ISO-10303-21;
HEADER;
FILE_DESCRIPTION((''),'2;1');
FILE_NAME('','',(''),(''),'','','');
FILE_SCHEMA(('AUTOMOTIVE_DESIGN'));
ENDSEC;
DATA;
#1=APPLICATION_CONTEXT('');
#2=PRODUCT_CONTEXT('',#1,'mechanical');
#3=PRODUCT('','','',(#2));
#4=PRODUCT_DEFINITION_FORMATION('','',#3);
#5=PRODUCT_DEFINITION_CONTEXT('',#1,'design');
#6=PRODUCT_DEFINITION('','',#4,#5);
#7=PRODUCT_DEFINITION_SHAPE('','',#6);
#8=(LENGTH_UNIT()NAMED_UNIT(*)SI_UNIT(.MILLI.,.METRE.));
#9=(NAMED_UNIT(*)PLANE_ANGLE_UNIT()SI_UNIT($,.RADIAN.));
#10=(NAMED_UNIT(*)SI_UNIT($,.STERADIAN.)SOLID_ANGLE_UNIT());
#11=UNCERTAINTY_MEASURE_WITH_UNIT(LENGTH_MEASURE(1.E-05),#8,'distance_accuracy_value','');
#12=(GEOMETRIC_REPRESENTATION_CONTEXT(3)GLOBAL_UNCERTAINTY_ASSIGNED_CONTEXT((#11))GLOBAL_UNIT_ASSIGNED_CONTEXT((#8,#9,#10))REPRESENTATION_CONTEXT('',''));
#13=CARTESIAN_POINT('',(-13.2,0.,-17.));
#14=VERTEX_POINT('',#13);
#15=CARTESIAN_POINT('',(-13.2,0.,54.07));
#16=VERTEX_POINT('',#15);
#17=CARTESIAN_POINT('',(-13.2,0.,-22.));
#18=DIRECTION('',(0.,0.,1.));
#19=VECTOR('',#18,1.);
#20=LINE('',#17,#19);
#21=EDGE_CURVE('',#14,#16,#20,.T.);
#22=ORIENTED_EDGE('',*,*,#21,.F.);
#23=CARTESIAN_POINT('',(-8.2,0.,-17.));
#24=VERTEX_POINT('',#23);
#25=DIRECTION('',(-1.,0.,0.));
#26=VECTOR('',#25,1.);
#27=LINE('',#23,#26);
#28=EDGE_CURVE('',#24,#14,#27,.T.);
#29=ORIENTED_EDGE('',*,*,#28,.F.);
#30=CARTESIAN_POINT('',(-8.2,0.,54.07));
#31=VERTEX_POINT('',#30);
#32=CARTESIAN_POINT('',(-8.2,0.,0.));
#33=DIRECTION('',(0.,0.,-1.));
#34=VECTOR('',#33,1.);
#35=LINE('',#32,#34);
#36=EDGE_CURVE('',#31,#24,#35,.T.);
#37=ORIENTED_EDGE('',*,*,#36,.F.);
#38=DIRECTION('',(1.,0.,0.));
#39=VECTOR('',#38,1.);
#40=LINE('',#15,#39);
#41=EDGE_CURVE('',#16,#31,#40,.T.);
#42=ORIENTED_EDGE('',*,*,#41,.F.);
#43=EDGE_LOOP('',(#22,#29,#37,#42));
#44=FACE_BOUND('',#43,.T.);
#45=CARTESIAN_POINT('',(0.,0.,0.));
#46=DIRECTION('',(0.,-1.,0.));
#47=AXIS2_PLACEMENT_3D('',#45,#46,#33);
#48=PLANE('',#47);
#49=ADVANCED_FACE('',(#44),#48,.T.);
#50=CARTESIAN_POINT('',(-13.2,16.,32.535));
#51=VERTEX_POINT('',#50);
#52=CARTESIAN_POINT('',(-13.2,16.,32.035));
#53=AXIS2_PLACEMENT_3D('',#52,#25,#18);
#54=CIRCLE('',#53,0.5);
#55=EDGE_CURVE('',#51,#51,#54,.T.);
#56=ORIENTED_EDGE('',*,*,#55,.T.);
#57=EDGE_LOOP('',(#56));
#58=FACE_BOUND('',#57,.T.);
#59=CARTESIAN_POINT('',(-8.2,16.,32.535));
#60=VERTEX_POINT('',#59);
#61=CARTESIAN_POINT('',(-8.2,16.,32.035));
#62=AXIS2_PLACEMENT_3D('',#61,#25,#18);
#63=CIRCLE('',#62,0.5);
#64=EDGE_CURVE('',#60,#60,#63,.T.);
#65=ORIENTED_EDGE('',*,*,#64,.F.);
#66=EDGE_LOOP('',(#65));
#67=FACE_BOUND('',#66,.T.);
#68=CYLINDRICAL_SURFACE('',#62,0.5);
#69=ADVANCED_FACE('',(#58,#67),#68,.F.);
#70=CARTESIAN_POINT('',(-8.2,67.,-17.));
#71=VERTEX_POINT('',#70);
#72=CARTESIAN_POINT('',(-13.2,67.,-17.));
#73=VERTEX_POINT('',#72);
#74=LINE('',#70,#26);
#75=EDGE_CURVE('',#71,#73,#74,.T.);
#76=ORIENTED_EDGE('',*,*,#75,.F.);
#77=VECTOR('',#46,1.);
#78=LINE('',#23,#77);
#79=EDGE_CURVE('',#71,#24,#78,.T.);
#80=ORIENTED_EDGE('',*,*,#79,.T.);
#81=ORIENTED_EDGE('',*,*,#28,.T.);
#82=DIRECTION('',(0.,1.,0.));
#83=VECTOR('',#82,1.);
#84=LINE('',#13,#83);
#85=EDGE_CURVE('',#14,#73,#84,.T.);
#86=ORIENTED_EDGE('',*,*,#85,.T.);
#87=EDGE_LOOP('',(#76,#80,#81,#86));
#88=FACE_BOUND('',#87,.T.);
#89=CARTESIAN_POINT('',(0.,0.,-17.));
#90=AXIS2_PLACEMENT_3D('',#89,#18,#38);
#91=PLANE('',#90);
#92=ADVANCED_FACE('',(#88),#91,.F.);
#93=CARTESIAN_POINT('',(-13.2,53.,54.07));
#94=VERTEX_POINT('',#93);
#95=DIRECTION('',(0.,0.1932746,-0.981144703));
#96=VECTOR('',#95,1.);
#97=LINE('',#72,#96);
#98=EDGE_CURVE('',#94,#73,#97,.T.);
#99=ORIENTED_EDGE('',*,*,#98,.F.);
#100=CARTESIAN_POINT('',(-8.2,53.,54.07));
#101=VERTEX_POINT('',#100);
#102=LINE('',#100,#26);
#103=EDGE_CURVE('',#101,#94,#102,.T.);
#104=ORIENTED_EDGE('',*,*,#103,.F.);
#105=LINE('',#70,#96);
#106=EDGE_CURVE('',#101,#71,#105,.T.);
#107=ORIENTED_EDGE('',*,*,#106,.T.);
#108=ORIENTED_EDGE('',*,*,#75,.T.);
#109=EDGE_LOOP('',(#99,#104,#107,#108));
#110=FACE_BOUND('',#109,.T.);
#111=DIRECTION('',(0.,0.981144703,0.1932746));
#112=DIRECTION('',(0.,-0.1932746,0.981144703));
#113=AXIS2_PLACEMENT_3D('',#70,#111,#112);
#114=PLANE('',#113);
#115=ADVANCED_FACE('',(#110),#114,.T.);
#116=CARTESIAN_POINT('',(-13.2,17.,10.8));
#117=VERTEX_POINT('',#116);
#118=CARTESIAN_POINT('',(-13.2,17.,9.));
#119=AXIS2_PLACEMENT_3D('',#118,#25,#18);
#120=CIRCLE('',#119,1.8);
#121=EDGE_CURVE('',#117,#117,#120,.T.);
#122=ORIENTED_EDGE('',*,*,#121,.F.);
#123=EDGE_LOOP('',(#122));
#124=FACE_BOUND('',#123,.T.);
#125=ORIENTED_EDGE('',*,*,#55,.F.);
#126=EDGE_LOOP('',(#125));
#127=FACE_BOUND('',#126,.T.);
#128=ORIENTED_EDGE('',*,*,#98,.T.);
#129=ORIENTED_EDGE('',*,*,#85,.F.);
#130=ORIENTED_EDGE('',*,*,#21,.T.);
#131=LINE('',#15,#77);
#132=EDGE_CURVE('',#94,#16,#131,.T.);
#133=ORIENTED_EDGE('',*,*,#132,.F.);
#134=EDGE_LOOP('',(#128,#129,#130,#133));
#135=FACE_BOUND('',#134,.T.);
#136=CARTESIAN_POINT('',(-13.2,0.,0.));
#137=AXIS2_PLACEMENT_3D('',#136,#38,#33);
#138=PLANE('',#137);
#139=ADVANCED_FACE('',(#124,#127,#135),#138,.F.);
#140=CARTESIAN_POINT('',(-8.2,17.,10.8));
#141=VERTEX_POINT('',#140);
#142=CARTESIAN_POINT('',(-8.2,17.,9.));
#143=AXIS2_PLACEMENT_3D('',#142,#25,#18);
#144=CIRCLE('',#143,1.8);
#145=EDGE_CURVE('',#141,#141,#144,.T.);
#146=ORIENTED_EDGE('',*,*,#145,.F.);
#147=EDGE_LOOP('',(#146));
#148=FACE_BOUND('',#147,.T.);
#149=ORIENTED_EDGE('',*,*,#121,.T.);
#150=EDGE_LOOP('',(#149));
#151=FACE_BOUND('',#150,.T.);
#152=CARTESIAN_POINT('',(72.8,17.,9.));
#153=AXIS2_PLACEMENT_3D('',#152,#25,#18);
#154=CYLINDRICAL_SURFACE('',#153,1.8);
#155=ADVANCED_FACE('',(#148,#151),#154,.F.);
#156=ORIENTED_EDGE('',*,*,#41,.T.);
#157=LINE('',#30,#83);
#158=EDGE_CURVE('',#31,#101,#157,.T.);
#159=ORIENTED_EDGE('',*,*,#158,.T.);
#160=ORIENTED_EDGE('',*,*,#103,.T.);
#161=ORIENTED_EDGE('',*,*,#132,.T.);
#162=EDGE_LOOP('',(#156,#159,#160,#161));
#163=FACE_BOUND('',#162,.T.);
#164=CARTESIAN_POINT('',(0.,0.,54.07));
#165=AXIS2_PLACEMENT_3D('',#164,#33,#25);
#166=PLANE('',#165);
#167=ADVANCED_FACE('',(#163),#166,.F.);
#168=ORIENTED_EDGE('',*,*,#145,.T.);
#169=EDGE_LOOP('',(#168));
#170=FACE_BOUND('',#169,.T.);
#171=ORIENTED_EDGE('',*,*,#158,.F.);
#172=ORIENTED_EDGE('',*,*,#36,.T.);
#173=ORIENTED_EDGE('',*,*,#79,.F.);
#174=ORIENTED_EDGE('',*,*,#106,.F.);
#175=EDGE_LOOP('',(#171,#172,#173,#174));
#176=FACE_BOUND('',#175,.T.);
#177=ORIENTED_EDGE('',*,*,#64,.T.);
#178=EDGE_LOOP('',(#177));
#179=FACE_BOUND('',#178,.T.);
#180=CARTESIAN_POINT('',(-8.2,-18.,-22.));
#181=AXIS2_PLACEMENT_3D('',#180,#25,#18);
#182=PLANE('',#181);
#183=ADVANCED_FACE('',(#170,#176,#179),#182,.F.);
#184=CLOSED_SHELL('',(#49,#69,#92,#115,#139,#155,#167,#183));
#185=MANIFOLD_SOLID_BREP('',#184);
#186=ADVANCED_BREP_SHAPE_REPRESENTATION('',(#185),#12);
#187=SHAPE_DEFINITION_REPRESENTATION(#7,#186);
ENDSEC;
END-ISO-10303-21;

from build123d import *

# Parameters (mm, degrees)
SKETCH1_W                = 50
SKETCH1_H                = 9.1
BOSS_EXTRUDE1_DEPTH      = 2
SKETCH2_W                = 25
SKETCH2_H                = 6.6
CUT_EXTRUDE1_DEPTH       = 2
SKETCH3_R                = 1.8
CUT_EXTRUDE2_DEPTH       = 2
SKETCH4_W                = 66.4
SKETCH4_H                = 130
BOSS_EXTRUDE2_DEPTH      = 2
SKETCH5_W                = 66.4
SKETCH5_H                = 2
BOSS_EXTRUDE3_DEPTH      = 2.5
SKETCH6_W                = 8.6
SKETCH6_H                = 62.5
BOSS_EXTRUDE4_DEPTH      = 2
SKETCH7_R                = 1.8
SKETCH7_W                = 3
SKETCH7_H                = 5
CUT_EXTRUDE3_DEPTH       = 2
SKETCH8_W                = 25
SKETCH8_H                = 45
CUT_EXTRUDE4_DEPTH       = 20
SKETCH9_W                = 25
SKETCH9_H                = 10
BOSS_EXTRUDE5_DEPTH      = 2
SKETCH10_W               = 34.7
SKETCH10_H               = 27.07
BOSS_EXTRUDE6_DEPTH      = 2
SKETCH11_R               = 1.8
CUT_EXTRUDE5_DEPTH       = 2
SKETCH12_R               = 1.8
CUT_EXTRUDE6_DEPTH       = 2
SKETCH13_W               = 2
SKETCH13_H               = 2
BOSS_EXTRUDE7_DEPTH      = 44
SKETCH14_W               = 2
SKETCH14_H               = 2
BOSS_EXTRUDE8_DEPTH      = 46
SKETCH16_W               = 42
SKETCH16_H               = 43
BOSS_EXTRUDE10_DEPTH     = 2
SKETCH18_R               = 1.8
CUT_EXTRUDE7_DEPTH       = 2
BOSS_EXTRUDE12_DEPTH     = 2
SKETCH21_W               = 2
SKETCH21_H               = 2
BOSS_EXTRUDE13_DEPTH     = 10
SKETCH25_W               = 3
SKETCH25_H               = 5
CUT_EXTRUDE8_DEPTH       = 10
SKETCH26_W               = 6.2
SKETCH26_H               = 13
SKETCH26_W_2             = 21
SKETCH26_H_2             = 6.6
BOSS_EXTRUDE14_DEPTH     = 2
SKETCH27_W               = 2
SKETCH27_H               = 27
SKETCH27_H_2             = 24.93
BOSS_EXTRUDE15_DEPTH     = 2
SKETCH29_W               = 10
SKETCH29_H               = 10
BOSS_EXTRUDE19_DEPTH     = 2
SKETCH41_R               = 1.8
CUT_EXTRUDE15_DEPTH      = 2
BOSS_EXTRUDE26_DEPTH     = 2
SKETCH43_W               = 70.4
SKETCH43_H               = 2
BOSS_EXTRUDE27_DEPTH     = 11
SKETCH44_W               = 10
SKETCH44_H               = 5
BOSS_EXTRUDE28_DEPTH     = 2
SKETCH45_R               = 1.8
BOSS_EXTRUDE29_DEPTH     = 2
SKETCH46_R               = 1.8
CUT_EXTRUDE16_DEPTH      = 2
SKETCH47_W               = 10
SKETCH47_H               = 1
BOSS_EXTRUDE30_DEPTH     = 2
SKETCH48_W               = 32.7
SKETCH48_H               = 31.07
SKETCH48_W_2             = 101.75
SKETCH48_H_2             = 120.487369876
CUT_EXTRUDE17_DEPTH      = 20
SKETCH50_W               = 66.4
SKETCH50_H               = 81.07
CUT_EXTRUDE19_DEPTH      = 20
SKETCH51_W               = 70.4
SKETCH51_H               = 85.07
SKETCH51_W_2             = 66.4
SKETCH51_H_2             = 81.07
BOSS_EXTRUDE31_DEPTH     = 20
SKETCH52_W               = 10
SKETCH52_H               = 1
BOSS_EXTRUDE32_DEPTH     = 2
SKETCH53_W               = 10
SKETCH53_H               = 4
CUT_EXTRUDE20_DEPTH      = 2
BOSS_EXTRUDE33_START     = 1
SKETCH54_W               = 10
SKETCH54_H               = 12
SKETCH54_R               = 1.8
BOSS_EXTRUDE33_DEPTH     = 1
CUT_EXTRUDE23_DEPTH      = 96
CUT_EXTRUDE23_DEPTH_BACK = 16
SKETCH59_R               = 1.8
SKETCH62_W               = 66.985033768
SKETCH62_H               = 11.249394984
BOSS_EXTRUDE38_DEPTH     = 1
SKETCH65_R               = 1.8
CUT_EXTRUDE27_DEPTH      = 3
SKETCH66_R               = 1
CUT_EXTRUDE28_DEPTH      = 87
BOSS_EXTRUDE41_DEPTH     = 2
BOSS_EXTRUDE42_DEPTH     = 2
BOSS_EXTRUDE43_DEPTH     = 2
SKETCH68_W               = 6.791832398
SKETCH68_H               = 8.144168394
SKETCH68_W_2             = 5.485710784
SKETCH68_W_3             = 7.764004839
SKETCH68_H_2             = 11.628907231
BOSS_EXTRUDE44_DEPTH     = 2
BOSS_EXTRUDE45_DEPTH     = 2
SKETCH70_R               = 1.8
CUT_EXTRUDE29_DEPTH      = 83
CUT_EXTRUDE30_DEPTH      = 75
CUT_EXTRUDE30_DEPTH_BACK = 16
SKETCH71_W               = 5.876146553
SKETCH71_H               = 39.481516924
SKETCH72_W               = 79.610987064
SKETCH72_H               = 92.479142301
CUT_EXTRUDE31_DEPTH      = 40
CUT_EXTRUDE32_DEPTH      = 43
CUT_EXTRUDE32_DEPTH_BACK = 22
SKETCH73_W               = 7.125351406
SKETCH73_H               = 50.874914307
SKETCH74_W               = 52.254946006
SKETCH74_H               = 40.33481622
CUT_EXTRUDE33_DEPTH      = 68
BOSS_EXTRUDE46_START     = 3
SKETCH75_W               = 81.07
SKETCH75_H               = 22
SKETCH75_R               = 1.8
SKETCH75_R_2             = 1
BOSS_EXTRUDE46_DEPTH     = 3
SKETCH76_R               = 1.8
SKETCH76_R_2             = 1
SKETCH76_R_3             = 0.5
BOSS_EXTRUDE47_DEPTH     = 5
SKETCH77_W               = 5
SKETCH77_H               = 22
CUT_EXTRUDE34_DEPTH      = 5
SKETCH78_W               = 5
SKETCH78_H               = 22
CUT_EXTRUDE35_DEPTH      = 5
BOSS_EXTRUDE49_DEPTH     = 5


with BuildPart() as part:
    # Sketch1 → Boss-Extrude1 (new body)
    with BuildSketch(Plane(origin=(0, 0, 0), x_dir=(1, 0, 0), z_dir=(0, 1, 0))):
        with Locations((25, 4.55)):
            Rectangle(SKETCH1_W, SKETCH1_H)
    extrude(amount=BOSS_EXTRUDE1_DEPTH)

    # Sketch2 → Cut-Extrude1 (cut)
    with BuildSketch(Plane(origin=(0, 2, 0), x_dir=(1, 0, 0), z_dir=(0, 1, 0))):
        with Locations((25, 5.8)):
            Rectangle(SKETCH2_W, SKETCH2_H)
    extrude(amount=-CUT_EXTRUDE1_DEPTH, mode=Mode.SUBTRACT)

    # Sketch3 → Cut-Extrude2 (cut)
    with BuildSketch(Plane(origin=(0, 2, 0), x_dir=(1, 0, 0), z_dir=(0, 1, 0))):
        with Locations(Location((6.25, 5.8, 0), (0, 0, 270))):
            Circle(SKETCH3_R)
        with Locations(Location((43.75, 5.8, 0), (0, 0, 270))):
            Circle(SKETCH3_R)
    extrude(amount=-CUT_EXTRUDE2_DEPTH, mode=Mode.SUBTRACT)

    # Sketch4 → Boss-Extrude2 (add)
    with BuildSketch(Plane(origin=(0, 2, 0), x_dir=(1, 0, 0), z_dir=(0, 1, 0))):
        with Locations((25, -65)):
            Rectangle(SKETCH4_W, SKETCH4_H)
    extrude(amount=-BOSS_EXTRUDE2_DEPTH)

    # Sketch5 → Boss-Extrude3 (add)
    with BuildSketch(Plane.XY.offset(130)):
        with Locations((25, 1)):
            Rectangle(SKETCH5_W, SKETCH5_H)
    extrude(amount=BOSS_EXTRUDE3_DEPTH)

    # Sketch6 → Boss-Extrude4 (add)
    with BuildSketch(Plane(origin=(0, 2, 0), x_dir=(1, 0, 0), z_dir=(0, 1, 0))):
        with Locations((-12.5, -101.25)):
            Rectangle(SKETCH6_W, SKETCH6_H)
        with Locations((62.5, -101.25)):
            Rectangle(SKETCH6_W, SKETCH6_H)
    extrude(amount=-BOSS_EXTRUDE4_DEPTH)

    # Sketch7 → Cut-Extrude3 (cut)
    with BuildSketch(Plane(origin=(0, 2, 0), x_dir=(1, 0, 0), z_dir=(0, 1, 0))):
        with Locations(Location((-13.5, -77, 0), (0, 0, 270))):
            Circle(SKETCH7_R)
        with Locations(Location((-13.5, -101.25, 0), (0, 0, 270))):
            Circle(SKETCH7_R)
        with Locations(Location((-13.5, -125.5, 0), (0, 0, 270))):
            Circle(SKETCH7_R)
        with Locations(Location((63.5, -77, 0), (0, 0, 270))):
            Circle(SKETCH7_R)
        with Locations(Location((63.5, -101.25, 0), (0, 0, 270))):
            Circle(SKETCH7_R)
        with Locations(Location((63.5, -125.5, 0), (0, 0, 270))):
            Circle(SKETCH7_R)
        with Locations((-13.5, -117.5)):
            Rectangle(SKETCH7_W, SKETCH7_H)
        with Locations((63.5, -117.5)):
            Rectangle(SKETCH7_W, SKETCH7_H)
    extrude(amount=-CUT_EXTRUDE3_DEPTH, mode=Mode.SUBTRACT)

    # Sketch8 → Cut-Extrude4 (cut)
    with BuildSketch(Plane(origin=(0, 2, 0), x_dir=(1, 0, 0), z_dir=(0, 1, 0))):
        with Locations((25, -22.5)):
            Rectangle(SKETCH8_W, SKETCH8_H)
    extrude(amount=-CUT_EXTRUDE4_DEPTH, mode=Mode.SUBTRACT)

    # Sketch9 → Boss-Extrude5 (add)
    with BuildSketch(Plane(origin=(0, 2, 0), x_dir=(1, 0, 0), z_dir=(0, 1, 0))):
        with Locations((25, -5)):
            Rectangle(SKETCH9_W, SKETCH9_H)
    extrude(amount=-BOSS_EXTRUDE5_DEPTH)

    # Sketch10 → Boss-Extrude6 (add)
    with BuildSketch(Plane(origin=(0, 2, 0), x_dir=(1, 0, 0), z_dir=(0, 1, 0))):
        with Locations((-25.55, -29.535)):
            Rectangle(SKETCH10_W, SKETCH10_H)
        with Locations((75.55, -29.535)):
            Rectangle(SKETCH10_W, SKETCH10_H)
    extrude(amount=-BOSS_EXTRUDE6_DEPTH)

    # Sketch11 → Cut-Extrude5 (cut)
    with BuildSketch(Plane(origin=(0, 2, 0), x_dir=(1, 0, 0), z_dir=(0, 1, 0))):
        with Locations(Location((-36.9, -19.25, 0), (0, 0, 270))):
            Circle(SKETCH11_R)
        with Locations(Location((-36.9, -39.82, 0), (0, 0, 270))):
            Circle(SKETCH11_R)
        with Locations(Location((-22.6, -19.25, 0), (0, 0, 270))):
            Circle(SKETCH11_R)
        with Locations(Location((-22.6, -39.82, 0), (0, 0, 270))):
            Circle(SKETCH11_R)
    extrude(amount=-CUT_EXTRUDE5_DEPTH, mode=Mode.SUBTRACT)

    # Sketch12 → Cut-Extrude6 (cut)
    with BuildSketch(Plane(origin=(0, 2, 0), x_dir=(1, 0, 0), z_dir=(0, 1, 0))):
        with Locations(Location((72.6, -19.25, 0), (0, 0, 270))):
            Circle(SKETCH12_R)
        with Locations(Location((86.9, -19.25, 0), (0, 0, 270))):
            Circle(SKETCH12_R)
        with Locations(Location((72.6, -39.82, 0), (0, 0, 270))):
            Circle(SKETCH12_R)
        with Locations(Location((86.9, -39.82, 0), (0, 0, 270))):
            Circle(SKETCH12_R)
    extrude(amount=-CUT_EXTRUDE6_DEPTH, mode=Mode.SUBTRACT)

    # Sketch13 → Boss-Extrude7 (add)
    with BuildSketch(Plane.ZY.offset(42.9)):
        with Locations((15, 1)):
            Rectangle(SKETCH13_W, SKETCH13_H)
        with Locations((44.07, 1)):
            Rectangle(SKETCH13_W, SKETCH13_H)
    extrude(amount=-BOSS_EXTRUDE7_DEPTH)

    # Sketch14 → Boss-Extrude8 (add)
    with BuildSketch(Plane(origin=(92.9, 0, 0), x_dir=(0, 0, -1), z_dir=(1, 0, 0))):
        with Locations((-15, 1)):
            Rectangle(SKETCH14_W, SKETCH14_H)
        with Locations((-44.07, 1)):
            Rectangle(SKETCH14_W, SKETCH14_H)
    extrude(amount=-BOSS_EXTRUDE8_DEPTH)

    # Sketch16 → Boss-Extrude10 (add)
    with BuildSketch(Plane(origin=(0, 2, 0), x_dir=(1, 0, 0), z_dir=(0, 1, 0))):
        with Locations((25, -154)):
            Rectangle(SKETCH16_W, SKETCH16_H)
    extrude(amount=-BOSS_EXTRUDE10_DEPTH)

    # Sketch18 → Cut-Extrude7 (cut)
    with BuildSketch(Plane(origin=(0, 2, 0), x_dir=(1, 0, 0), z_dir=(0, 1, 0))):
        with Locations(Location((8.74, -171.03, 0), (0, 0, 270))):
            Circle(SKETCH18_R)
        with Locations(Location((41.26, -171.03, 0), (0, 0, 270))):
            Circle(SKETCH18_R)
        with Locations(Location((8.74, -138.5, 0), (0, 0, 270))):
            Circle(SKETCH18_R)
        with Locations(Location((41.26, -138.5, 0), (0, 0, 270))):
            Circle(SKETCH18_R)
    extrude(amount=-CUT_EXTRUDE7_DEPTH, mode=Mode.SUBTRACT)

    # Sketch20 → Boss-Extrude12 (add)
    with BuildSketch(Plane(origin=(0, 2, 0), x_dir=(1, 0, 0), z_dir=(0, 1, 0))):
        with BuildLine():
            Line((-2, -132.5), (4, -132.5))
            Line((4, -132.5), (4, -138.5))
            ThreePointArc((4, -138.5), (2.242640687, -134.257359313), (-2, -132.5))
        make_face()
        with BuildLine():
            ThreePointArc((52, -132.5), (47.757359313, -134.257359313), (46, -138.5))
            Line((46, -138.5), (46, -132.5))
            Line((46, -132.5), (52, -132.5))
        make_face()
    extrude(amount=-BOSS_EXTRUDE12_DEPTH)

    # Sketch21 → Boss-Extrude13 (add)
    with BuildSketch(Plane(origin=(0, 0, -9.1), x_dir=(-1, 0, 0), z_dir=(0, 0, -1))):
        with Locations((-51, 1)):
            Rectangle(SKETCH21_W, SKETCH21_H)
        with Locations((-36.5, 1)):
            Rectangle(SKETCH21_W, SKETCH21_H)
        with Locations((-13.5, 1)):
            Rectangle(SKETCH21_W, SKETCH21_H)
        with Locations((1, 1)):
            Rectangle(SKETCH21_W, SKETCH21_H)
    extrude(amount=-BOSS_EXTRUDE13_DEPTH)

    # Sketch25 → Cut-Extrude8 (cut)
    with BuildSketch(Plane(origin=(0, 2, 0), x_dir=(1, 0, 0), z_dir=(0, 1, 0))):
        with Locations((-11.7, -22.5)):
            Rectangle(SKETCH25_W, SKETCH25_H)
        with Locations((-11.7, -36.57)):
            Rectangle(SKETCH25_W, SKETCH25_H)
        with Locations((61.7, -22.5)):
            Rectangle(SKETCH25_W, SKETCH25_H)
        with Locations((61.7, -36.57)):
            Rectangle(SKETCH25_W, SKETCH25_H)
    extrude(amount=-CUT_EXTRUDE8_DEPTH, mode=Mode.SUBTRACT)

    # Sketch26 → Boss-Extrude14 (add)
    with BuildSketch(Plane(origin=(0, 2, 0), x_dir=(1, 0, 0), z_dir=(0, 1, 0))):
        with Locations((-5.1, 6.5)):
            Rectangle(SKETCH26_W, SKETCH26_H)
        Polygon((-2, 13), (-2, 9.1), (14.5, 9.1), (35.5, 9.1), (52, 9.1), (52, 13), align=None)
        with Locations((25, 5.8)):
            Rectangle(SKETCH26_W_2, SKETCH26_H_2)
        with Locations((55.1, 6.5)):
            Rectangle(SKETCH26_W, SKETCH26_H)
    extrude(amount=-BOSS_EXTRUDE14_DEPTH)

    # Sketch27 → Boss-Extrude15 (add)
    with BuildSketch(Plane(origin=(0, 2, 0), x_dir=(1, 0, 0), z_dir=(0, 1, 0))):
        with Locations((-9.2, -0.5)):
            Rectangle(SKETCH27_W, SKETCH27_H)
        with Locations((-9.2, -57.535)):
            Rectangle(SKETCH27_W, SKETCH27_H_2)
        with Locations((59.2, -0.5)):
            Rectangle(SKETCH27_W, SKETCH27_H)
        with Locations((59.2, -57.535)):
            Rectangle(SKETCH27_W, SKETCH27_H_2)
    extrude(amount=-BOSS_EXTRUDE15_DEPTH)

    # Sketch29 → Boss-Extrude19 (add)
    with BuildSketch(Plane(origin=(0, 2, 0), x_dir=(1, 0, 0), z_dir=(0, 1, 0))):
        with Locations((-15.2, -9)):
            Rectangle(SKETCH29_W, SKETCH29_H)
        with Locations((-15.2, -50.07)):
            Rectangle(SKETCH29_W, SKETCH29_H)
        with Locations((65.2, -9)):
            Rectangle(SKETCH29_W, SKETCH29_H)
        with Locations((65.2, -50.07)):
            Rectangle(SKETCH29_W, SKETCH29_H)
    extrude(amount=-BOSS_EXTRUDE19_DEPTH)

    # Sketch41 → Cut-Extrude15 (cut)
    with BuildSketch(Plane(origin=(0, 2, 0), x_dir=(1, 0, 0), z_dir=(0, 1, 0))):
        with Locations(Location((-15.2, -9, 0), (0, 0, 270))):
            Circle(SKETCH41_R)
        with Locations(Location((-15.2, -50.07, 0), (0, 0, 270))):
            Circle(SKETCH41_R)
        with Locations(Location((65.2, -9, 0), (0, 0, 270))):
            Circle(SKETCH41_R)
        with Locations(Location((65.2, -50.07, 0), (0, 0, 270))):
            Circle(SKETCH41_R)
    extrude(amount=-CUT_EXTRUDE15_DEPTH, mode=Mode.SUBTRACT)

    # Sketch42 → Boss-Extrude26 (add)
    with BuildSketch(Plane(origin=(0, 2, 0), x_dir=(1, 0, 0), z_dir=(0, 1, 0))):
        with BuildLine():
            Line((-16.8, -70), (-10.2, -70))
            Line((-10.2, -70), (-10.2, -63.4))
            ThreePointArc((-10.2, -63.4), (-12.133095244, -68.066904756), (-16.8, -70))
        make_face()
        with BuildLine():
            Line((60.2, -63.4), (60.2, -70))
            Line((60.2, -70), (66.8, -70))
            ThreePointArc((66.8, -70), (62.133095244, -68.066904756), (60.2, -63.4))
        make_face()
    extrude(amount=-BOSS_EXTRUDE26_DEPTH)

    # Sketch43 → Boss-Extrude27 (add)
    with BuildSketch(Plane(origin=(0, 0, -13), x_dir=(-1, 0, 0), z_dir=(0, 0, -1))):
        with Locations((-25, 1)):
            Rectangle(SKETCH43_W, SKETCH43_H)
    extrude(amount=BOSS_EXTRUDE27_DEPTH)

    # Sketch44 → Boss-Extrude28 (add)
    with BuildSketch(Plane(origin=(0, 2, 0), x_dir=(1, 0, 0), z_dir=(0, 1, 0))):
        with Locations((-15.2, -57.57)):
            Rectangle(SKETCH44_W, SKETCH44_H)
        with Locations((65.2, -57.57)):
            Rectangle(SKETCH44_W, SKETCH44_H)
    extrude(amount=-BOSS_EXTRUDE28_DEPTH)

    # Sketch45 → Boss-Extrude29 (add)
    with BuildSketch(Plane(origin=(0, 2, 0), x_dir=(1, 0, 0), z_dir=(0, 1, 0))):
        with Locations((-15.2, -50.07)):
            Circle(SKETCH45_R)
        with Locations((65.2, -50.07)):
            Circle(SKETCH45_R)
    extrude(amount=-BOSS_EXTRUDE29_DEPTH)

    # Sketch46 → Cut-Extrude16 (cut)
    with BuildSketch(Plane(origin=(0, 2, 0), x_dir=(1, 0, 0), z_dir=(0, 1, 0))):
        with Locations(Location((-15.2, -55.07, 0), (0, 0, 270))):
            Circle(SKETCH46_R)
        with Locations(Location((65.2, -55.07, 0), (0, 0, 270))):
            Circle(SKETCH46_R)
    extrude(amount=-CUT_EXTRUDE16_DEPTH, mode=Mode.SUBTRACT)

    # Sketch47 → Boss-Extrude30 (add)
    with BuildSketch(Plane(origin=(0, 2, 0), x_dir=(1, 0, 0), z_dir=(0, 1, 0))):
        with Locations((-15.2, -3.5)):
            Rectangle(SKETCH47_W, SKETCH47_H)
        with Locations((-15.2, -60.57)):
            Rectangle(SKETCH47_W, SKETCH47_H)
        with Locations((65.2, -3.5)):
            Rectangle(SKETCH47_W, SKETCH47_H)
        with Locations((65.2, -60.57)):
            Rectangle(SKETCH47_W, SKETCH47_H)
    extrude(amount=-BOSS_EXTRUDE30_DEPTH)

    # Sketch48 → Cut-Extrude17 (cut)
    with BuildSketch(Plane(origin=(0, 2, 0), x_dir=(1, 0, 0), z_dir=(0, 1, 0))):
        with Locations((-26.55, -29.535)):
            Rectangle(SKETCH48_W, SKETCH48_H)
        with Locations((76.55, -29.535)):
            Rectangle(SKETCH48_W, SKETCH48_H)
        with Locations((30.675, -121.313684938)):
            Rectangle(SKETCH48_W_2, SKETCH48_H_2)
    extrude(amount=-CUT_EXTRUDE17_DEPTH, mode=Mode.SUBTRACT)

    # Sketch50 → Cut-Extrude19 (cut)
    with BuildSketch(Plane(origin=(0, 2, 0), x_dir=(1, 0, 0), z_dir=(0, 1, 0))):
        with Locations((25, -18.535)):
            Rectangle(SKETCH50_W, SKETCH50_H)
    extrude(amount=-CUT_EXTRUDE19_DEPTH, mode=Mode.SUBTRACT)

    # Sketch51 → Boss-Extrude31 (add)
    with BuildSketch(Plane(origin=(0, 2, 0), x_dir=(1, 0, 0), z_dir=(0, 1, 0))):
        with Locations((25, -18.535)):
            Rectangle(SKETCH51_W, SKETCH51_H)
        with Locations((25, -18.535)):
            Rectangle(SKETCH51_W_2, SKETCH51_H_2, mode=Mode.SUBTRACT)
    extrude(amount=BOSS_EXTRUDE31_DEPTH)

    # Sketch52 → Boss-Extrude32 (add)
    with BuildSketch(Plane(origin=(0, 2, 0), x_dir=(1, 0, 0), z_dir=(0, 1, 0))):
        with Locations((-15.2, -14.5)):
            Rectangle(SKETCH52_W, SKETCH52_H)
        with Locations((65.2, -14.5)):
            Rectangle(SKETCH52_W, SKETCH52_H)
    extrude(amount=-BOSS_EXTRUDE32_DEPTH)

    # Sketch53 → Cut-Extrude20 (cut)
    with BuildSketch(Plane(origin=(0, 2, 0), x_dir=(1, 0, 0), z_dir=(0, 1, 0))):
        with Locations((-15.2, -47.07)):
            Rectangle(SKETCH53_W, SKETCH53_H)
        with Locations((65.2, -47.07)):
            Rectangle(SKETCH53_W, SKETCH53_H)
    extrude(amount=-CUT_EXTRUDE20_DEPTH, mode=Mode.SUBTRACT)

    # Sketch54 → Boss-Extrude33 (add)
    # profile 1 of 4: a face of its own
    with BuildSketch(Plane(origin=(0, 2, 0), x_dir=(1, 0, 0), z_dir=(0, 1, 0)).offset(BOSS_EXTRUDE33_START)):
        with Locations((-15.2, -9)):
            Rectangle(SKETCH54_W, SKETCH54_H)
        with Locations(Location((-15.2, -9, 0), (0, 0, 270))):
            Circle(SKETCH54_R, mode=Mode.SUBTRACT)
    # profile 2 of 4: a face of its own
    with BuildSketch(Plane(origin=(0, 2, 0), x_dir=(1, 0, 0), z_dir=(0, 1, 0)).offset(BOSS_EXTRUDE33_START)):
        with Locations((-15.2, -55.07)):
            Rectangle(SKETCH54_W, SKETCH54_H)
        with Locations(Location((-15.2, -55.07, 0), (0, 0, 270))):
            Circle(SKETCH54_R, mode=Mode.SUBTRACT)
    # profile 3 of 4: a face of its own
    with BuildSketch(Plane(origin=(0, 2, 0), x_dir=(1, 0, 0), z_dir=(0, 1, 0)).offset(BOSS_EXTRUDE33_START)):
        with Locations((65.2, -9)):
            Rectangle(SKETCH54_W, SKETCH54_H)
        with Locations(Location((65.2, -9, 0), (0, 0, 270))):
            Circle(SKETCH54_R, mode=Mode.SUBTRACT)
    # profile 4 of 4: a face of its own
    with BuildSketch(Plane(origin=(0, 2, 0), x_dir=(1, 0, 0), z_dir=(0, 1, 0)).offset(BOSS_EXTRUDE33_START)):
        with Locations((65.2, -55.07)):
            Rectangle(SKETCH54_W, SKETCH54_H)
        with Locations(Location((65.2, -55.07, 0), (0, 0, 270))):
            Circle(SKETCH54_R, mode=Mode.SUBTRACT)
    extrude(amount=-BOSS_EXTRUDE33_DEPTH)

    # Sketch59 → Cut-Extrude23 (cut, two sides: drawn at the far end of the back side and taken through both)
    with BuildSketch(Plane.XY.offset(-22).offset(-CUT_EXTRUDE23_DEPTH_BACK)):
        with Locations((-3.2, 11)):
            Circle(SKETCH59_R)
        with Locations((53.2, 11)):
            Circle(SKETCH59_R)
        with Locations((25, 11)):
            Circle(SKETCH59_R)
    extrude(amount=CUT_EXTRUDE23_DEPTH + CUT_EXTRUDE23_DEPTH_BACK, mode=Mode.SUBTRACT)

    # Sketch62 → Boss-Extrude38 (add)
    with BuildSketch(Plane.XY.offset(61.07)):
        with Locations((24.914777311, 10.744331932)):
            Rectangle(SKETCH62_W, SKETCH62_H)
    extrude(amount=-BOSS_EXTRUDE38_DEPTH)

    # Sketch65 → Cut-Extrude27 (cut)
    with BuildSketch(Plane(origin=(0, 0, 59.07), x_dir=(-1, 0, 0), z_dir=(0, 0, -1))):
        with Locations((-13.8, 11)):
            Circle(SKETCH65_R)
        with Locations((-36.2, 11)):
            Circle(SKETCH65_R)
    extrude(amount=-CUT_EXTRUDE27_DEPTH, mode=Mode.SUBTRACT)

    # Sketch66 → Cut-Extrude28 (cut)
    with BuildSketch(Plane.ZY.offset(10.2)):
        with Locations((32.035, 16)):
            Circle(SKETCH66_R)
    extrude(amount=-CUT_EXTRUDE28_DEPTH, mode=Mode.SUBTRACT)

    # Sketch55 → Boss-Extrude41 (add)
    with BuildSketch(Plane(origin=(0, 0, 3), x_dir=(-1, 0, 0), z_dir=(0, 0, -1))):
        Polygon((20.2, 3), (10.2, 22), (10.2, 3), align=None)
        Polygon((-70.2, 3), (-60.2, 3), (-60.2, 22), align=None)
    extrude(amount=-BOSS_EXTRUDE41_DEPTH)

    # Sketch56 → Boss-Extrude42 (add)
    with BuildSketch(Plane.XY.offset(15)):
        Polygon((-20.2, 3), (-10.2, 3), (-10.2, 22), align=None)
        Polygon((70.2, 3), (60.2, 3), (60.2, 22), align=None)
    extrude(amount=-BOSS_EXTRUDE42_DEPTH)

    # Sketch57 → Boss-Extrude43 (add)
    with BuildSketch(Plane(origin=(0, 0, 49.07), x_dir=(-1, 0, 0), z_dir=(0, 0, -1))):
        Polygon((20.2, 3), (10.2, 3), (10.2, 22), align=None)
        Polygon((-70.2, 3), (-60.2, 3), (-60.2, 22), align=None)
    extrude(amount=-BOSS_EXTRUDE43_DEPTH)

    # Sketch68 → Boss-Extrude44 (add)
    with BuildSketch(Plane(origin=(0, 0, 59.07), x_dir=(-1, 0, 0), z_dir=(0, 0, -1))):
        with Locations((2.499419559, 10.346452983)):
            Rectangle(SKETCH68_W, SKETCH68_H)
        with Locations((-24.624372648, 10.346452983)):
            Rectangle(SKETCH68_W_2, SKETCH68_H)
        with Locations((-52.231743322, 12.088822401)):
            Rectangle(SKETCH68_W_3, SKETCH68_H_2)
    extrude(amount=-BOSS_EXTRUDE44_DEPTH)

    # Sketch69 → Boss-Extrude45 (add)
    with BuildSketch(Plane.XY.offset(61.07)):
        Polygon((-20.2, 3), (-10.2, 3), (-10.2, 22), align=None)
        Polygon((60.2, 3), (70.2, 3), (60.2, 22), align=None)
    extrude(amount=-BOSS_EXTRUDE45_DEPTH)

    # Sketch70 → Cut-Extrude29 (cut)
    with BuildSketch(Plane.ZY.offset(10.2)):
        with Locations((9, 17)):
            Circle(SKETCH70_R)
        with Locations((55.07, 17)):
            Circle(SKETCH70_R)
    extrude(amount=-CUT_EXTRUDE29_DEPTH, mode=Mode.SUBTRACT)

    # Sketch71 → Cut-Extrude30 (cut, two sides: drawn at the far end of the back side and taken through both)
    with BuildSketch(Plane(origin=(-8.2, 0, 0), x_dir=(0, 0, -1), z_dir=(1, 0, 0)).offset(-CUT_EXTRUDE30_DEPTH_BACK)):
        with Locations((24.938073276, 2.259241538)):
            Rectangle(SKETCH71_W, SKETCH71_H)
    extrude(amount=CUT_EXTRUDE30_DEPTH + CUT_EXTRUDE30_DEPTH_BACK, mode=Mode.SUBTRACT)

    # Sketch72 → Cut-Extrude31 (cut)
    with BuildSketch(Plane(origin=(0, 22, 0), x_dir=(1, 0, 0), z_dir=(0, 1, 0))):
        with Locations((38.564043948, -20.250754032)):
            Rectangle(SKETCH72_W, SKETCH72_H)
    extrude(amount=-CUT_EXTRUDE31_DEPTH, mode=Mode.SUBTRACT)

    # Sketch73 → Cut-Extrude32 (cut, two sides: drawn at the far end of the back side and taken through both)
    with BuildSketch(Plane(origin=(-8.2, 0, 0), x_dir=(0, 0, -1), z_dir=(1, 0, 0)).offset(-CUT_EXTRUDE32_DEPTH_BACK)):
        with Locations((-62.632675703, -3.437457154)):
            Rectangle(SKETCH73_W, SKETCH73_H)
    extrude(amount=CUT_EXTRUDE32_DEPTH + CUT_EXTRUDE32_DEPTH_BACK, mode=Mode.SUBTRACT)

    # Sketch74 → Cut-Extrude33 (cut)
    with BuildSketch(Plane(origin=(0, 0, 3), x_dir=(-1, 0, 0), z_dir=(0, 0, -1))):
        with Locations((36.327473003, 20.16740811)):
            Rectangle(SKETCH74_W, SKETCH74_H)
    extrude(amount=-CUT_EXTRUDE33_DEPTH, mode=Mode.SUBTRACT)

    # Sketch75 → Boss-Extrude46 (add)
    with BuildSketch(Plane.ZY.offset(10.2).offset(BOSS_EXTRUDE46_START)):
        with Locations((18.535, 11)):
            Rectangle(SKETCH75_W, SKETCH75_H)
        with Locations((9, 17)):
            Circle(SKETCH75_R, mode=Mode.SUBTRACT)
        with Locations((32.035, 16)):
            Circle(SKETCH75_R_2, mode=Mode.SUBTRACT)
        with Locations((55.07, 17)):
            Circle(SKETCH75_R, mode=Mode.SUBTRACT)
    extrude(amount=-BOSS_EXTRUDE46_DEPTH)

    # Sketch76 → Boss-Extrude47 (add)
    # profile 1 of 2: a face of its own
    with BuildSketch(Plane.ZY.offset(13.2)):
        with Locations((55.07, 17)):
            Circle(SKETCH76_R)
    # profile 2 of 2: a face of its own
    with BuildSketch(Plane.ZY.offset(13.2)):
        with Locations((32.035, 16)):
            Circle(SKETCH76_R_2)
        with Locations((32.035, 16)):
            Circle(SKETCH76_R_3, mode=Mode.SUBTRACT)
    extrude(amount=-BOSS_EXTRUDE47_DEPTH)

    # Sketch77 → Cut-Extrude34 (cut)
    with BuildSketch(Plane.XY.offset(59.07)):
        with Locations((-10.7, 11)):
            Rectangle(SKETCH77_W, SKETCH77_H)
    extrude(amount=-CUT_EXTRUDE34_DEPTH, mode=Mode.SUBTRACT)

    # Sketch78 → Cut-Extrude35 (cut)
    with BuildSketch(Plane(origin=(0, 0, -22), x_dir=(-1, 0, 0), z_dir=(0, 0, -1))):
        with Locations((10.7, 11)):
            Rectangle(SKETCH78_W, SKETCH78_H)
    extrude(amount=-CUT_EXTRUDE35_DEPTH, mode=Mode.SUBTRACT)

    # Sketch79 → Boss-Extrude49 (add)
    with BuildSketch(Plane.ZY.offset(13.2)):
        Polygon((-17, 22), (-17, 67), (54.07, 53), (54.07, 22), align=None)
    extrude(amount=-BOSS_EXTRUDE49_DEPTH)


solid = part.part
